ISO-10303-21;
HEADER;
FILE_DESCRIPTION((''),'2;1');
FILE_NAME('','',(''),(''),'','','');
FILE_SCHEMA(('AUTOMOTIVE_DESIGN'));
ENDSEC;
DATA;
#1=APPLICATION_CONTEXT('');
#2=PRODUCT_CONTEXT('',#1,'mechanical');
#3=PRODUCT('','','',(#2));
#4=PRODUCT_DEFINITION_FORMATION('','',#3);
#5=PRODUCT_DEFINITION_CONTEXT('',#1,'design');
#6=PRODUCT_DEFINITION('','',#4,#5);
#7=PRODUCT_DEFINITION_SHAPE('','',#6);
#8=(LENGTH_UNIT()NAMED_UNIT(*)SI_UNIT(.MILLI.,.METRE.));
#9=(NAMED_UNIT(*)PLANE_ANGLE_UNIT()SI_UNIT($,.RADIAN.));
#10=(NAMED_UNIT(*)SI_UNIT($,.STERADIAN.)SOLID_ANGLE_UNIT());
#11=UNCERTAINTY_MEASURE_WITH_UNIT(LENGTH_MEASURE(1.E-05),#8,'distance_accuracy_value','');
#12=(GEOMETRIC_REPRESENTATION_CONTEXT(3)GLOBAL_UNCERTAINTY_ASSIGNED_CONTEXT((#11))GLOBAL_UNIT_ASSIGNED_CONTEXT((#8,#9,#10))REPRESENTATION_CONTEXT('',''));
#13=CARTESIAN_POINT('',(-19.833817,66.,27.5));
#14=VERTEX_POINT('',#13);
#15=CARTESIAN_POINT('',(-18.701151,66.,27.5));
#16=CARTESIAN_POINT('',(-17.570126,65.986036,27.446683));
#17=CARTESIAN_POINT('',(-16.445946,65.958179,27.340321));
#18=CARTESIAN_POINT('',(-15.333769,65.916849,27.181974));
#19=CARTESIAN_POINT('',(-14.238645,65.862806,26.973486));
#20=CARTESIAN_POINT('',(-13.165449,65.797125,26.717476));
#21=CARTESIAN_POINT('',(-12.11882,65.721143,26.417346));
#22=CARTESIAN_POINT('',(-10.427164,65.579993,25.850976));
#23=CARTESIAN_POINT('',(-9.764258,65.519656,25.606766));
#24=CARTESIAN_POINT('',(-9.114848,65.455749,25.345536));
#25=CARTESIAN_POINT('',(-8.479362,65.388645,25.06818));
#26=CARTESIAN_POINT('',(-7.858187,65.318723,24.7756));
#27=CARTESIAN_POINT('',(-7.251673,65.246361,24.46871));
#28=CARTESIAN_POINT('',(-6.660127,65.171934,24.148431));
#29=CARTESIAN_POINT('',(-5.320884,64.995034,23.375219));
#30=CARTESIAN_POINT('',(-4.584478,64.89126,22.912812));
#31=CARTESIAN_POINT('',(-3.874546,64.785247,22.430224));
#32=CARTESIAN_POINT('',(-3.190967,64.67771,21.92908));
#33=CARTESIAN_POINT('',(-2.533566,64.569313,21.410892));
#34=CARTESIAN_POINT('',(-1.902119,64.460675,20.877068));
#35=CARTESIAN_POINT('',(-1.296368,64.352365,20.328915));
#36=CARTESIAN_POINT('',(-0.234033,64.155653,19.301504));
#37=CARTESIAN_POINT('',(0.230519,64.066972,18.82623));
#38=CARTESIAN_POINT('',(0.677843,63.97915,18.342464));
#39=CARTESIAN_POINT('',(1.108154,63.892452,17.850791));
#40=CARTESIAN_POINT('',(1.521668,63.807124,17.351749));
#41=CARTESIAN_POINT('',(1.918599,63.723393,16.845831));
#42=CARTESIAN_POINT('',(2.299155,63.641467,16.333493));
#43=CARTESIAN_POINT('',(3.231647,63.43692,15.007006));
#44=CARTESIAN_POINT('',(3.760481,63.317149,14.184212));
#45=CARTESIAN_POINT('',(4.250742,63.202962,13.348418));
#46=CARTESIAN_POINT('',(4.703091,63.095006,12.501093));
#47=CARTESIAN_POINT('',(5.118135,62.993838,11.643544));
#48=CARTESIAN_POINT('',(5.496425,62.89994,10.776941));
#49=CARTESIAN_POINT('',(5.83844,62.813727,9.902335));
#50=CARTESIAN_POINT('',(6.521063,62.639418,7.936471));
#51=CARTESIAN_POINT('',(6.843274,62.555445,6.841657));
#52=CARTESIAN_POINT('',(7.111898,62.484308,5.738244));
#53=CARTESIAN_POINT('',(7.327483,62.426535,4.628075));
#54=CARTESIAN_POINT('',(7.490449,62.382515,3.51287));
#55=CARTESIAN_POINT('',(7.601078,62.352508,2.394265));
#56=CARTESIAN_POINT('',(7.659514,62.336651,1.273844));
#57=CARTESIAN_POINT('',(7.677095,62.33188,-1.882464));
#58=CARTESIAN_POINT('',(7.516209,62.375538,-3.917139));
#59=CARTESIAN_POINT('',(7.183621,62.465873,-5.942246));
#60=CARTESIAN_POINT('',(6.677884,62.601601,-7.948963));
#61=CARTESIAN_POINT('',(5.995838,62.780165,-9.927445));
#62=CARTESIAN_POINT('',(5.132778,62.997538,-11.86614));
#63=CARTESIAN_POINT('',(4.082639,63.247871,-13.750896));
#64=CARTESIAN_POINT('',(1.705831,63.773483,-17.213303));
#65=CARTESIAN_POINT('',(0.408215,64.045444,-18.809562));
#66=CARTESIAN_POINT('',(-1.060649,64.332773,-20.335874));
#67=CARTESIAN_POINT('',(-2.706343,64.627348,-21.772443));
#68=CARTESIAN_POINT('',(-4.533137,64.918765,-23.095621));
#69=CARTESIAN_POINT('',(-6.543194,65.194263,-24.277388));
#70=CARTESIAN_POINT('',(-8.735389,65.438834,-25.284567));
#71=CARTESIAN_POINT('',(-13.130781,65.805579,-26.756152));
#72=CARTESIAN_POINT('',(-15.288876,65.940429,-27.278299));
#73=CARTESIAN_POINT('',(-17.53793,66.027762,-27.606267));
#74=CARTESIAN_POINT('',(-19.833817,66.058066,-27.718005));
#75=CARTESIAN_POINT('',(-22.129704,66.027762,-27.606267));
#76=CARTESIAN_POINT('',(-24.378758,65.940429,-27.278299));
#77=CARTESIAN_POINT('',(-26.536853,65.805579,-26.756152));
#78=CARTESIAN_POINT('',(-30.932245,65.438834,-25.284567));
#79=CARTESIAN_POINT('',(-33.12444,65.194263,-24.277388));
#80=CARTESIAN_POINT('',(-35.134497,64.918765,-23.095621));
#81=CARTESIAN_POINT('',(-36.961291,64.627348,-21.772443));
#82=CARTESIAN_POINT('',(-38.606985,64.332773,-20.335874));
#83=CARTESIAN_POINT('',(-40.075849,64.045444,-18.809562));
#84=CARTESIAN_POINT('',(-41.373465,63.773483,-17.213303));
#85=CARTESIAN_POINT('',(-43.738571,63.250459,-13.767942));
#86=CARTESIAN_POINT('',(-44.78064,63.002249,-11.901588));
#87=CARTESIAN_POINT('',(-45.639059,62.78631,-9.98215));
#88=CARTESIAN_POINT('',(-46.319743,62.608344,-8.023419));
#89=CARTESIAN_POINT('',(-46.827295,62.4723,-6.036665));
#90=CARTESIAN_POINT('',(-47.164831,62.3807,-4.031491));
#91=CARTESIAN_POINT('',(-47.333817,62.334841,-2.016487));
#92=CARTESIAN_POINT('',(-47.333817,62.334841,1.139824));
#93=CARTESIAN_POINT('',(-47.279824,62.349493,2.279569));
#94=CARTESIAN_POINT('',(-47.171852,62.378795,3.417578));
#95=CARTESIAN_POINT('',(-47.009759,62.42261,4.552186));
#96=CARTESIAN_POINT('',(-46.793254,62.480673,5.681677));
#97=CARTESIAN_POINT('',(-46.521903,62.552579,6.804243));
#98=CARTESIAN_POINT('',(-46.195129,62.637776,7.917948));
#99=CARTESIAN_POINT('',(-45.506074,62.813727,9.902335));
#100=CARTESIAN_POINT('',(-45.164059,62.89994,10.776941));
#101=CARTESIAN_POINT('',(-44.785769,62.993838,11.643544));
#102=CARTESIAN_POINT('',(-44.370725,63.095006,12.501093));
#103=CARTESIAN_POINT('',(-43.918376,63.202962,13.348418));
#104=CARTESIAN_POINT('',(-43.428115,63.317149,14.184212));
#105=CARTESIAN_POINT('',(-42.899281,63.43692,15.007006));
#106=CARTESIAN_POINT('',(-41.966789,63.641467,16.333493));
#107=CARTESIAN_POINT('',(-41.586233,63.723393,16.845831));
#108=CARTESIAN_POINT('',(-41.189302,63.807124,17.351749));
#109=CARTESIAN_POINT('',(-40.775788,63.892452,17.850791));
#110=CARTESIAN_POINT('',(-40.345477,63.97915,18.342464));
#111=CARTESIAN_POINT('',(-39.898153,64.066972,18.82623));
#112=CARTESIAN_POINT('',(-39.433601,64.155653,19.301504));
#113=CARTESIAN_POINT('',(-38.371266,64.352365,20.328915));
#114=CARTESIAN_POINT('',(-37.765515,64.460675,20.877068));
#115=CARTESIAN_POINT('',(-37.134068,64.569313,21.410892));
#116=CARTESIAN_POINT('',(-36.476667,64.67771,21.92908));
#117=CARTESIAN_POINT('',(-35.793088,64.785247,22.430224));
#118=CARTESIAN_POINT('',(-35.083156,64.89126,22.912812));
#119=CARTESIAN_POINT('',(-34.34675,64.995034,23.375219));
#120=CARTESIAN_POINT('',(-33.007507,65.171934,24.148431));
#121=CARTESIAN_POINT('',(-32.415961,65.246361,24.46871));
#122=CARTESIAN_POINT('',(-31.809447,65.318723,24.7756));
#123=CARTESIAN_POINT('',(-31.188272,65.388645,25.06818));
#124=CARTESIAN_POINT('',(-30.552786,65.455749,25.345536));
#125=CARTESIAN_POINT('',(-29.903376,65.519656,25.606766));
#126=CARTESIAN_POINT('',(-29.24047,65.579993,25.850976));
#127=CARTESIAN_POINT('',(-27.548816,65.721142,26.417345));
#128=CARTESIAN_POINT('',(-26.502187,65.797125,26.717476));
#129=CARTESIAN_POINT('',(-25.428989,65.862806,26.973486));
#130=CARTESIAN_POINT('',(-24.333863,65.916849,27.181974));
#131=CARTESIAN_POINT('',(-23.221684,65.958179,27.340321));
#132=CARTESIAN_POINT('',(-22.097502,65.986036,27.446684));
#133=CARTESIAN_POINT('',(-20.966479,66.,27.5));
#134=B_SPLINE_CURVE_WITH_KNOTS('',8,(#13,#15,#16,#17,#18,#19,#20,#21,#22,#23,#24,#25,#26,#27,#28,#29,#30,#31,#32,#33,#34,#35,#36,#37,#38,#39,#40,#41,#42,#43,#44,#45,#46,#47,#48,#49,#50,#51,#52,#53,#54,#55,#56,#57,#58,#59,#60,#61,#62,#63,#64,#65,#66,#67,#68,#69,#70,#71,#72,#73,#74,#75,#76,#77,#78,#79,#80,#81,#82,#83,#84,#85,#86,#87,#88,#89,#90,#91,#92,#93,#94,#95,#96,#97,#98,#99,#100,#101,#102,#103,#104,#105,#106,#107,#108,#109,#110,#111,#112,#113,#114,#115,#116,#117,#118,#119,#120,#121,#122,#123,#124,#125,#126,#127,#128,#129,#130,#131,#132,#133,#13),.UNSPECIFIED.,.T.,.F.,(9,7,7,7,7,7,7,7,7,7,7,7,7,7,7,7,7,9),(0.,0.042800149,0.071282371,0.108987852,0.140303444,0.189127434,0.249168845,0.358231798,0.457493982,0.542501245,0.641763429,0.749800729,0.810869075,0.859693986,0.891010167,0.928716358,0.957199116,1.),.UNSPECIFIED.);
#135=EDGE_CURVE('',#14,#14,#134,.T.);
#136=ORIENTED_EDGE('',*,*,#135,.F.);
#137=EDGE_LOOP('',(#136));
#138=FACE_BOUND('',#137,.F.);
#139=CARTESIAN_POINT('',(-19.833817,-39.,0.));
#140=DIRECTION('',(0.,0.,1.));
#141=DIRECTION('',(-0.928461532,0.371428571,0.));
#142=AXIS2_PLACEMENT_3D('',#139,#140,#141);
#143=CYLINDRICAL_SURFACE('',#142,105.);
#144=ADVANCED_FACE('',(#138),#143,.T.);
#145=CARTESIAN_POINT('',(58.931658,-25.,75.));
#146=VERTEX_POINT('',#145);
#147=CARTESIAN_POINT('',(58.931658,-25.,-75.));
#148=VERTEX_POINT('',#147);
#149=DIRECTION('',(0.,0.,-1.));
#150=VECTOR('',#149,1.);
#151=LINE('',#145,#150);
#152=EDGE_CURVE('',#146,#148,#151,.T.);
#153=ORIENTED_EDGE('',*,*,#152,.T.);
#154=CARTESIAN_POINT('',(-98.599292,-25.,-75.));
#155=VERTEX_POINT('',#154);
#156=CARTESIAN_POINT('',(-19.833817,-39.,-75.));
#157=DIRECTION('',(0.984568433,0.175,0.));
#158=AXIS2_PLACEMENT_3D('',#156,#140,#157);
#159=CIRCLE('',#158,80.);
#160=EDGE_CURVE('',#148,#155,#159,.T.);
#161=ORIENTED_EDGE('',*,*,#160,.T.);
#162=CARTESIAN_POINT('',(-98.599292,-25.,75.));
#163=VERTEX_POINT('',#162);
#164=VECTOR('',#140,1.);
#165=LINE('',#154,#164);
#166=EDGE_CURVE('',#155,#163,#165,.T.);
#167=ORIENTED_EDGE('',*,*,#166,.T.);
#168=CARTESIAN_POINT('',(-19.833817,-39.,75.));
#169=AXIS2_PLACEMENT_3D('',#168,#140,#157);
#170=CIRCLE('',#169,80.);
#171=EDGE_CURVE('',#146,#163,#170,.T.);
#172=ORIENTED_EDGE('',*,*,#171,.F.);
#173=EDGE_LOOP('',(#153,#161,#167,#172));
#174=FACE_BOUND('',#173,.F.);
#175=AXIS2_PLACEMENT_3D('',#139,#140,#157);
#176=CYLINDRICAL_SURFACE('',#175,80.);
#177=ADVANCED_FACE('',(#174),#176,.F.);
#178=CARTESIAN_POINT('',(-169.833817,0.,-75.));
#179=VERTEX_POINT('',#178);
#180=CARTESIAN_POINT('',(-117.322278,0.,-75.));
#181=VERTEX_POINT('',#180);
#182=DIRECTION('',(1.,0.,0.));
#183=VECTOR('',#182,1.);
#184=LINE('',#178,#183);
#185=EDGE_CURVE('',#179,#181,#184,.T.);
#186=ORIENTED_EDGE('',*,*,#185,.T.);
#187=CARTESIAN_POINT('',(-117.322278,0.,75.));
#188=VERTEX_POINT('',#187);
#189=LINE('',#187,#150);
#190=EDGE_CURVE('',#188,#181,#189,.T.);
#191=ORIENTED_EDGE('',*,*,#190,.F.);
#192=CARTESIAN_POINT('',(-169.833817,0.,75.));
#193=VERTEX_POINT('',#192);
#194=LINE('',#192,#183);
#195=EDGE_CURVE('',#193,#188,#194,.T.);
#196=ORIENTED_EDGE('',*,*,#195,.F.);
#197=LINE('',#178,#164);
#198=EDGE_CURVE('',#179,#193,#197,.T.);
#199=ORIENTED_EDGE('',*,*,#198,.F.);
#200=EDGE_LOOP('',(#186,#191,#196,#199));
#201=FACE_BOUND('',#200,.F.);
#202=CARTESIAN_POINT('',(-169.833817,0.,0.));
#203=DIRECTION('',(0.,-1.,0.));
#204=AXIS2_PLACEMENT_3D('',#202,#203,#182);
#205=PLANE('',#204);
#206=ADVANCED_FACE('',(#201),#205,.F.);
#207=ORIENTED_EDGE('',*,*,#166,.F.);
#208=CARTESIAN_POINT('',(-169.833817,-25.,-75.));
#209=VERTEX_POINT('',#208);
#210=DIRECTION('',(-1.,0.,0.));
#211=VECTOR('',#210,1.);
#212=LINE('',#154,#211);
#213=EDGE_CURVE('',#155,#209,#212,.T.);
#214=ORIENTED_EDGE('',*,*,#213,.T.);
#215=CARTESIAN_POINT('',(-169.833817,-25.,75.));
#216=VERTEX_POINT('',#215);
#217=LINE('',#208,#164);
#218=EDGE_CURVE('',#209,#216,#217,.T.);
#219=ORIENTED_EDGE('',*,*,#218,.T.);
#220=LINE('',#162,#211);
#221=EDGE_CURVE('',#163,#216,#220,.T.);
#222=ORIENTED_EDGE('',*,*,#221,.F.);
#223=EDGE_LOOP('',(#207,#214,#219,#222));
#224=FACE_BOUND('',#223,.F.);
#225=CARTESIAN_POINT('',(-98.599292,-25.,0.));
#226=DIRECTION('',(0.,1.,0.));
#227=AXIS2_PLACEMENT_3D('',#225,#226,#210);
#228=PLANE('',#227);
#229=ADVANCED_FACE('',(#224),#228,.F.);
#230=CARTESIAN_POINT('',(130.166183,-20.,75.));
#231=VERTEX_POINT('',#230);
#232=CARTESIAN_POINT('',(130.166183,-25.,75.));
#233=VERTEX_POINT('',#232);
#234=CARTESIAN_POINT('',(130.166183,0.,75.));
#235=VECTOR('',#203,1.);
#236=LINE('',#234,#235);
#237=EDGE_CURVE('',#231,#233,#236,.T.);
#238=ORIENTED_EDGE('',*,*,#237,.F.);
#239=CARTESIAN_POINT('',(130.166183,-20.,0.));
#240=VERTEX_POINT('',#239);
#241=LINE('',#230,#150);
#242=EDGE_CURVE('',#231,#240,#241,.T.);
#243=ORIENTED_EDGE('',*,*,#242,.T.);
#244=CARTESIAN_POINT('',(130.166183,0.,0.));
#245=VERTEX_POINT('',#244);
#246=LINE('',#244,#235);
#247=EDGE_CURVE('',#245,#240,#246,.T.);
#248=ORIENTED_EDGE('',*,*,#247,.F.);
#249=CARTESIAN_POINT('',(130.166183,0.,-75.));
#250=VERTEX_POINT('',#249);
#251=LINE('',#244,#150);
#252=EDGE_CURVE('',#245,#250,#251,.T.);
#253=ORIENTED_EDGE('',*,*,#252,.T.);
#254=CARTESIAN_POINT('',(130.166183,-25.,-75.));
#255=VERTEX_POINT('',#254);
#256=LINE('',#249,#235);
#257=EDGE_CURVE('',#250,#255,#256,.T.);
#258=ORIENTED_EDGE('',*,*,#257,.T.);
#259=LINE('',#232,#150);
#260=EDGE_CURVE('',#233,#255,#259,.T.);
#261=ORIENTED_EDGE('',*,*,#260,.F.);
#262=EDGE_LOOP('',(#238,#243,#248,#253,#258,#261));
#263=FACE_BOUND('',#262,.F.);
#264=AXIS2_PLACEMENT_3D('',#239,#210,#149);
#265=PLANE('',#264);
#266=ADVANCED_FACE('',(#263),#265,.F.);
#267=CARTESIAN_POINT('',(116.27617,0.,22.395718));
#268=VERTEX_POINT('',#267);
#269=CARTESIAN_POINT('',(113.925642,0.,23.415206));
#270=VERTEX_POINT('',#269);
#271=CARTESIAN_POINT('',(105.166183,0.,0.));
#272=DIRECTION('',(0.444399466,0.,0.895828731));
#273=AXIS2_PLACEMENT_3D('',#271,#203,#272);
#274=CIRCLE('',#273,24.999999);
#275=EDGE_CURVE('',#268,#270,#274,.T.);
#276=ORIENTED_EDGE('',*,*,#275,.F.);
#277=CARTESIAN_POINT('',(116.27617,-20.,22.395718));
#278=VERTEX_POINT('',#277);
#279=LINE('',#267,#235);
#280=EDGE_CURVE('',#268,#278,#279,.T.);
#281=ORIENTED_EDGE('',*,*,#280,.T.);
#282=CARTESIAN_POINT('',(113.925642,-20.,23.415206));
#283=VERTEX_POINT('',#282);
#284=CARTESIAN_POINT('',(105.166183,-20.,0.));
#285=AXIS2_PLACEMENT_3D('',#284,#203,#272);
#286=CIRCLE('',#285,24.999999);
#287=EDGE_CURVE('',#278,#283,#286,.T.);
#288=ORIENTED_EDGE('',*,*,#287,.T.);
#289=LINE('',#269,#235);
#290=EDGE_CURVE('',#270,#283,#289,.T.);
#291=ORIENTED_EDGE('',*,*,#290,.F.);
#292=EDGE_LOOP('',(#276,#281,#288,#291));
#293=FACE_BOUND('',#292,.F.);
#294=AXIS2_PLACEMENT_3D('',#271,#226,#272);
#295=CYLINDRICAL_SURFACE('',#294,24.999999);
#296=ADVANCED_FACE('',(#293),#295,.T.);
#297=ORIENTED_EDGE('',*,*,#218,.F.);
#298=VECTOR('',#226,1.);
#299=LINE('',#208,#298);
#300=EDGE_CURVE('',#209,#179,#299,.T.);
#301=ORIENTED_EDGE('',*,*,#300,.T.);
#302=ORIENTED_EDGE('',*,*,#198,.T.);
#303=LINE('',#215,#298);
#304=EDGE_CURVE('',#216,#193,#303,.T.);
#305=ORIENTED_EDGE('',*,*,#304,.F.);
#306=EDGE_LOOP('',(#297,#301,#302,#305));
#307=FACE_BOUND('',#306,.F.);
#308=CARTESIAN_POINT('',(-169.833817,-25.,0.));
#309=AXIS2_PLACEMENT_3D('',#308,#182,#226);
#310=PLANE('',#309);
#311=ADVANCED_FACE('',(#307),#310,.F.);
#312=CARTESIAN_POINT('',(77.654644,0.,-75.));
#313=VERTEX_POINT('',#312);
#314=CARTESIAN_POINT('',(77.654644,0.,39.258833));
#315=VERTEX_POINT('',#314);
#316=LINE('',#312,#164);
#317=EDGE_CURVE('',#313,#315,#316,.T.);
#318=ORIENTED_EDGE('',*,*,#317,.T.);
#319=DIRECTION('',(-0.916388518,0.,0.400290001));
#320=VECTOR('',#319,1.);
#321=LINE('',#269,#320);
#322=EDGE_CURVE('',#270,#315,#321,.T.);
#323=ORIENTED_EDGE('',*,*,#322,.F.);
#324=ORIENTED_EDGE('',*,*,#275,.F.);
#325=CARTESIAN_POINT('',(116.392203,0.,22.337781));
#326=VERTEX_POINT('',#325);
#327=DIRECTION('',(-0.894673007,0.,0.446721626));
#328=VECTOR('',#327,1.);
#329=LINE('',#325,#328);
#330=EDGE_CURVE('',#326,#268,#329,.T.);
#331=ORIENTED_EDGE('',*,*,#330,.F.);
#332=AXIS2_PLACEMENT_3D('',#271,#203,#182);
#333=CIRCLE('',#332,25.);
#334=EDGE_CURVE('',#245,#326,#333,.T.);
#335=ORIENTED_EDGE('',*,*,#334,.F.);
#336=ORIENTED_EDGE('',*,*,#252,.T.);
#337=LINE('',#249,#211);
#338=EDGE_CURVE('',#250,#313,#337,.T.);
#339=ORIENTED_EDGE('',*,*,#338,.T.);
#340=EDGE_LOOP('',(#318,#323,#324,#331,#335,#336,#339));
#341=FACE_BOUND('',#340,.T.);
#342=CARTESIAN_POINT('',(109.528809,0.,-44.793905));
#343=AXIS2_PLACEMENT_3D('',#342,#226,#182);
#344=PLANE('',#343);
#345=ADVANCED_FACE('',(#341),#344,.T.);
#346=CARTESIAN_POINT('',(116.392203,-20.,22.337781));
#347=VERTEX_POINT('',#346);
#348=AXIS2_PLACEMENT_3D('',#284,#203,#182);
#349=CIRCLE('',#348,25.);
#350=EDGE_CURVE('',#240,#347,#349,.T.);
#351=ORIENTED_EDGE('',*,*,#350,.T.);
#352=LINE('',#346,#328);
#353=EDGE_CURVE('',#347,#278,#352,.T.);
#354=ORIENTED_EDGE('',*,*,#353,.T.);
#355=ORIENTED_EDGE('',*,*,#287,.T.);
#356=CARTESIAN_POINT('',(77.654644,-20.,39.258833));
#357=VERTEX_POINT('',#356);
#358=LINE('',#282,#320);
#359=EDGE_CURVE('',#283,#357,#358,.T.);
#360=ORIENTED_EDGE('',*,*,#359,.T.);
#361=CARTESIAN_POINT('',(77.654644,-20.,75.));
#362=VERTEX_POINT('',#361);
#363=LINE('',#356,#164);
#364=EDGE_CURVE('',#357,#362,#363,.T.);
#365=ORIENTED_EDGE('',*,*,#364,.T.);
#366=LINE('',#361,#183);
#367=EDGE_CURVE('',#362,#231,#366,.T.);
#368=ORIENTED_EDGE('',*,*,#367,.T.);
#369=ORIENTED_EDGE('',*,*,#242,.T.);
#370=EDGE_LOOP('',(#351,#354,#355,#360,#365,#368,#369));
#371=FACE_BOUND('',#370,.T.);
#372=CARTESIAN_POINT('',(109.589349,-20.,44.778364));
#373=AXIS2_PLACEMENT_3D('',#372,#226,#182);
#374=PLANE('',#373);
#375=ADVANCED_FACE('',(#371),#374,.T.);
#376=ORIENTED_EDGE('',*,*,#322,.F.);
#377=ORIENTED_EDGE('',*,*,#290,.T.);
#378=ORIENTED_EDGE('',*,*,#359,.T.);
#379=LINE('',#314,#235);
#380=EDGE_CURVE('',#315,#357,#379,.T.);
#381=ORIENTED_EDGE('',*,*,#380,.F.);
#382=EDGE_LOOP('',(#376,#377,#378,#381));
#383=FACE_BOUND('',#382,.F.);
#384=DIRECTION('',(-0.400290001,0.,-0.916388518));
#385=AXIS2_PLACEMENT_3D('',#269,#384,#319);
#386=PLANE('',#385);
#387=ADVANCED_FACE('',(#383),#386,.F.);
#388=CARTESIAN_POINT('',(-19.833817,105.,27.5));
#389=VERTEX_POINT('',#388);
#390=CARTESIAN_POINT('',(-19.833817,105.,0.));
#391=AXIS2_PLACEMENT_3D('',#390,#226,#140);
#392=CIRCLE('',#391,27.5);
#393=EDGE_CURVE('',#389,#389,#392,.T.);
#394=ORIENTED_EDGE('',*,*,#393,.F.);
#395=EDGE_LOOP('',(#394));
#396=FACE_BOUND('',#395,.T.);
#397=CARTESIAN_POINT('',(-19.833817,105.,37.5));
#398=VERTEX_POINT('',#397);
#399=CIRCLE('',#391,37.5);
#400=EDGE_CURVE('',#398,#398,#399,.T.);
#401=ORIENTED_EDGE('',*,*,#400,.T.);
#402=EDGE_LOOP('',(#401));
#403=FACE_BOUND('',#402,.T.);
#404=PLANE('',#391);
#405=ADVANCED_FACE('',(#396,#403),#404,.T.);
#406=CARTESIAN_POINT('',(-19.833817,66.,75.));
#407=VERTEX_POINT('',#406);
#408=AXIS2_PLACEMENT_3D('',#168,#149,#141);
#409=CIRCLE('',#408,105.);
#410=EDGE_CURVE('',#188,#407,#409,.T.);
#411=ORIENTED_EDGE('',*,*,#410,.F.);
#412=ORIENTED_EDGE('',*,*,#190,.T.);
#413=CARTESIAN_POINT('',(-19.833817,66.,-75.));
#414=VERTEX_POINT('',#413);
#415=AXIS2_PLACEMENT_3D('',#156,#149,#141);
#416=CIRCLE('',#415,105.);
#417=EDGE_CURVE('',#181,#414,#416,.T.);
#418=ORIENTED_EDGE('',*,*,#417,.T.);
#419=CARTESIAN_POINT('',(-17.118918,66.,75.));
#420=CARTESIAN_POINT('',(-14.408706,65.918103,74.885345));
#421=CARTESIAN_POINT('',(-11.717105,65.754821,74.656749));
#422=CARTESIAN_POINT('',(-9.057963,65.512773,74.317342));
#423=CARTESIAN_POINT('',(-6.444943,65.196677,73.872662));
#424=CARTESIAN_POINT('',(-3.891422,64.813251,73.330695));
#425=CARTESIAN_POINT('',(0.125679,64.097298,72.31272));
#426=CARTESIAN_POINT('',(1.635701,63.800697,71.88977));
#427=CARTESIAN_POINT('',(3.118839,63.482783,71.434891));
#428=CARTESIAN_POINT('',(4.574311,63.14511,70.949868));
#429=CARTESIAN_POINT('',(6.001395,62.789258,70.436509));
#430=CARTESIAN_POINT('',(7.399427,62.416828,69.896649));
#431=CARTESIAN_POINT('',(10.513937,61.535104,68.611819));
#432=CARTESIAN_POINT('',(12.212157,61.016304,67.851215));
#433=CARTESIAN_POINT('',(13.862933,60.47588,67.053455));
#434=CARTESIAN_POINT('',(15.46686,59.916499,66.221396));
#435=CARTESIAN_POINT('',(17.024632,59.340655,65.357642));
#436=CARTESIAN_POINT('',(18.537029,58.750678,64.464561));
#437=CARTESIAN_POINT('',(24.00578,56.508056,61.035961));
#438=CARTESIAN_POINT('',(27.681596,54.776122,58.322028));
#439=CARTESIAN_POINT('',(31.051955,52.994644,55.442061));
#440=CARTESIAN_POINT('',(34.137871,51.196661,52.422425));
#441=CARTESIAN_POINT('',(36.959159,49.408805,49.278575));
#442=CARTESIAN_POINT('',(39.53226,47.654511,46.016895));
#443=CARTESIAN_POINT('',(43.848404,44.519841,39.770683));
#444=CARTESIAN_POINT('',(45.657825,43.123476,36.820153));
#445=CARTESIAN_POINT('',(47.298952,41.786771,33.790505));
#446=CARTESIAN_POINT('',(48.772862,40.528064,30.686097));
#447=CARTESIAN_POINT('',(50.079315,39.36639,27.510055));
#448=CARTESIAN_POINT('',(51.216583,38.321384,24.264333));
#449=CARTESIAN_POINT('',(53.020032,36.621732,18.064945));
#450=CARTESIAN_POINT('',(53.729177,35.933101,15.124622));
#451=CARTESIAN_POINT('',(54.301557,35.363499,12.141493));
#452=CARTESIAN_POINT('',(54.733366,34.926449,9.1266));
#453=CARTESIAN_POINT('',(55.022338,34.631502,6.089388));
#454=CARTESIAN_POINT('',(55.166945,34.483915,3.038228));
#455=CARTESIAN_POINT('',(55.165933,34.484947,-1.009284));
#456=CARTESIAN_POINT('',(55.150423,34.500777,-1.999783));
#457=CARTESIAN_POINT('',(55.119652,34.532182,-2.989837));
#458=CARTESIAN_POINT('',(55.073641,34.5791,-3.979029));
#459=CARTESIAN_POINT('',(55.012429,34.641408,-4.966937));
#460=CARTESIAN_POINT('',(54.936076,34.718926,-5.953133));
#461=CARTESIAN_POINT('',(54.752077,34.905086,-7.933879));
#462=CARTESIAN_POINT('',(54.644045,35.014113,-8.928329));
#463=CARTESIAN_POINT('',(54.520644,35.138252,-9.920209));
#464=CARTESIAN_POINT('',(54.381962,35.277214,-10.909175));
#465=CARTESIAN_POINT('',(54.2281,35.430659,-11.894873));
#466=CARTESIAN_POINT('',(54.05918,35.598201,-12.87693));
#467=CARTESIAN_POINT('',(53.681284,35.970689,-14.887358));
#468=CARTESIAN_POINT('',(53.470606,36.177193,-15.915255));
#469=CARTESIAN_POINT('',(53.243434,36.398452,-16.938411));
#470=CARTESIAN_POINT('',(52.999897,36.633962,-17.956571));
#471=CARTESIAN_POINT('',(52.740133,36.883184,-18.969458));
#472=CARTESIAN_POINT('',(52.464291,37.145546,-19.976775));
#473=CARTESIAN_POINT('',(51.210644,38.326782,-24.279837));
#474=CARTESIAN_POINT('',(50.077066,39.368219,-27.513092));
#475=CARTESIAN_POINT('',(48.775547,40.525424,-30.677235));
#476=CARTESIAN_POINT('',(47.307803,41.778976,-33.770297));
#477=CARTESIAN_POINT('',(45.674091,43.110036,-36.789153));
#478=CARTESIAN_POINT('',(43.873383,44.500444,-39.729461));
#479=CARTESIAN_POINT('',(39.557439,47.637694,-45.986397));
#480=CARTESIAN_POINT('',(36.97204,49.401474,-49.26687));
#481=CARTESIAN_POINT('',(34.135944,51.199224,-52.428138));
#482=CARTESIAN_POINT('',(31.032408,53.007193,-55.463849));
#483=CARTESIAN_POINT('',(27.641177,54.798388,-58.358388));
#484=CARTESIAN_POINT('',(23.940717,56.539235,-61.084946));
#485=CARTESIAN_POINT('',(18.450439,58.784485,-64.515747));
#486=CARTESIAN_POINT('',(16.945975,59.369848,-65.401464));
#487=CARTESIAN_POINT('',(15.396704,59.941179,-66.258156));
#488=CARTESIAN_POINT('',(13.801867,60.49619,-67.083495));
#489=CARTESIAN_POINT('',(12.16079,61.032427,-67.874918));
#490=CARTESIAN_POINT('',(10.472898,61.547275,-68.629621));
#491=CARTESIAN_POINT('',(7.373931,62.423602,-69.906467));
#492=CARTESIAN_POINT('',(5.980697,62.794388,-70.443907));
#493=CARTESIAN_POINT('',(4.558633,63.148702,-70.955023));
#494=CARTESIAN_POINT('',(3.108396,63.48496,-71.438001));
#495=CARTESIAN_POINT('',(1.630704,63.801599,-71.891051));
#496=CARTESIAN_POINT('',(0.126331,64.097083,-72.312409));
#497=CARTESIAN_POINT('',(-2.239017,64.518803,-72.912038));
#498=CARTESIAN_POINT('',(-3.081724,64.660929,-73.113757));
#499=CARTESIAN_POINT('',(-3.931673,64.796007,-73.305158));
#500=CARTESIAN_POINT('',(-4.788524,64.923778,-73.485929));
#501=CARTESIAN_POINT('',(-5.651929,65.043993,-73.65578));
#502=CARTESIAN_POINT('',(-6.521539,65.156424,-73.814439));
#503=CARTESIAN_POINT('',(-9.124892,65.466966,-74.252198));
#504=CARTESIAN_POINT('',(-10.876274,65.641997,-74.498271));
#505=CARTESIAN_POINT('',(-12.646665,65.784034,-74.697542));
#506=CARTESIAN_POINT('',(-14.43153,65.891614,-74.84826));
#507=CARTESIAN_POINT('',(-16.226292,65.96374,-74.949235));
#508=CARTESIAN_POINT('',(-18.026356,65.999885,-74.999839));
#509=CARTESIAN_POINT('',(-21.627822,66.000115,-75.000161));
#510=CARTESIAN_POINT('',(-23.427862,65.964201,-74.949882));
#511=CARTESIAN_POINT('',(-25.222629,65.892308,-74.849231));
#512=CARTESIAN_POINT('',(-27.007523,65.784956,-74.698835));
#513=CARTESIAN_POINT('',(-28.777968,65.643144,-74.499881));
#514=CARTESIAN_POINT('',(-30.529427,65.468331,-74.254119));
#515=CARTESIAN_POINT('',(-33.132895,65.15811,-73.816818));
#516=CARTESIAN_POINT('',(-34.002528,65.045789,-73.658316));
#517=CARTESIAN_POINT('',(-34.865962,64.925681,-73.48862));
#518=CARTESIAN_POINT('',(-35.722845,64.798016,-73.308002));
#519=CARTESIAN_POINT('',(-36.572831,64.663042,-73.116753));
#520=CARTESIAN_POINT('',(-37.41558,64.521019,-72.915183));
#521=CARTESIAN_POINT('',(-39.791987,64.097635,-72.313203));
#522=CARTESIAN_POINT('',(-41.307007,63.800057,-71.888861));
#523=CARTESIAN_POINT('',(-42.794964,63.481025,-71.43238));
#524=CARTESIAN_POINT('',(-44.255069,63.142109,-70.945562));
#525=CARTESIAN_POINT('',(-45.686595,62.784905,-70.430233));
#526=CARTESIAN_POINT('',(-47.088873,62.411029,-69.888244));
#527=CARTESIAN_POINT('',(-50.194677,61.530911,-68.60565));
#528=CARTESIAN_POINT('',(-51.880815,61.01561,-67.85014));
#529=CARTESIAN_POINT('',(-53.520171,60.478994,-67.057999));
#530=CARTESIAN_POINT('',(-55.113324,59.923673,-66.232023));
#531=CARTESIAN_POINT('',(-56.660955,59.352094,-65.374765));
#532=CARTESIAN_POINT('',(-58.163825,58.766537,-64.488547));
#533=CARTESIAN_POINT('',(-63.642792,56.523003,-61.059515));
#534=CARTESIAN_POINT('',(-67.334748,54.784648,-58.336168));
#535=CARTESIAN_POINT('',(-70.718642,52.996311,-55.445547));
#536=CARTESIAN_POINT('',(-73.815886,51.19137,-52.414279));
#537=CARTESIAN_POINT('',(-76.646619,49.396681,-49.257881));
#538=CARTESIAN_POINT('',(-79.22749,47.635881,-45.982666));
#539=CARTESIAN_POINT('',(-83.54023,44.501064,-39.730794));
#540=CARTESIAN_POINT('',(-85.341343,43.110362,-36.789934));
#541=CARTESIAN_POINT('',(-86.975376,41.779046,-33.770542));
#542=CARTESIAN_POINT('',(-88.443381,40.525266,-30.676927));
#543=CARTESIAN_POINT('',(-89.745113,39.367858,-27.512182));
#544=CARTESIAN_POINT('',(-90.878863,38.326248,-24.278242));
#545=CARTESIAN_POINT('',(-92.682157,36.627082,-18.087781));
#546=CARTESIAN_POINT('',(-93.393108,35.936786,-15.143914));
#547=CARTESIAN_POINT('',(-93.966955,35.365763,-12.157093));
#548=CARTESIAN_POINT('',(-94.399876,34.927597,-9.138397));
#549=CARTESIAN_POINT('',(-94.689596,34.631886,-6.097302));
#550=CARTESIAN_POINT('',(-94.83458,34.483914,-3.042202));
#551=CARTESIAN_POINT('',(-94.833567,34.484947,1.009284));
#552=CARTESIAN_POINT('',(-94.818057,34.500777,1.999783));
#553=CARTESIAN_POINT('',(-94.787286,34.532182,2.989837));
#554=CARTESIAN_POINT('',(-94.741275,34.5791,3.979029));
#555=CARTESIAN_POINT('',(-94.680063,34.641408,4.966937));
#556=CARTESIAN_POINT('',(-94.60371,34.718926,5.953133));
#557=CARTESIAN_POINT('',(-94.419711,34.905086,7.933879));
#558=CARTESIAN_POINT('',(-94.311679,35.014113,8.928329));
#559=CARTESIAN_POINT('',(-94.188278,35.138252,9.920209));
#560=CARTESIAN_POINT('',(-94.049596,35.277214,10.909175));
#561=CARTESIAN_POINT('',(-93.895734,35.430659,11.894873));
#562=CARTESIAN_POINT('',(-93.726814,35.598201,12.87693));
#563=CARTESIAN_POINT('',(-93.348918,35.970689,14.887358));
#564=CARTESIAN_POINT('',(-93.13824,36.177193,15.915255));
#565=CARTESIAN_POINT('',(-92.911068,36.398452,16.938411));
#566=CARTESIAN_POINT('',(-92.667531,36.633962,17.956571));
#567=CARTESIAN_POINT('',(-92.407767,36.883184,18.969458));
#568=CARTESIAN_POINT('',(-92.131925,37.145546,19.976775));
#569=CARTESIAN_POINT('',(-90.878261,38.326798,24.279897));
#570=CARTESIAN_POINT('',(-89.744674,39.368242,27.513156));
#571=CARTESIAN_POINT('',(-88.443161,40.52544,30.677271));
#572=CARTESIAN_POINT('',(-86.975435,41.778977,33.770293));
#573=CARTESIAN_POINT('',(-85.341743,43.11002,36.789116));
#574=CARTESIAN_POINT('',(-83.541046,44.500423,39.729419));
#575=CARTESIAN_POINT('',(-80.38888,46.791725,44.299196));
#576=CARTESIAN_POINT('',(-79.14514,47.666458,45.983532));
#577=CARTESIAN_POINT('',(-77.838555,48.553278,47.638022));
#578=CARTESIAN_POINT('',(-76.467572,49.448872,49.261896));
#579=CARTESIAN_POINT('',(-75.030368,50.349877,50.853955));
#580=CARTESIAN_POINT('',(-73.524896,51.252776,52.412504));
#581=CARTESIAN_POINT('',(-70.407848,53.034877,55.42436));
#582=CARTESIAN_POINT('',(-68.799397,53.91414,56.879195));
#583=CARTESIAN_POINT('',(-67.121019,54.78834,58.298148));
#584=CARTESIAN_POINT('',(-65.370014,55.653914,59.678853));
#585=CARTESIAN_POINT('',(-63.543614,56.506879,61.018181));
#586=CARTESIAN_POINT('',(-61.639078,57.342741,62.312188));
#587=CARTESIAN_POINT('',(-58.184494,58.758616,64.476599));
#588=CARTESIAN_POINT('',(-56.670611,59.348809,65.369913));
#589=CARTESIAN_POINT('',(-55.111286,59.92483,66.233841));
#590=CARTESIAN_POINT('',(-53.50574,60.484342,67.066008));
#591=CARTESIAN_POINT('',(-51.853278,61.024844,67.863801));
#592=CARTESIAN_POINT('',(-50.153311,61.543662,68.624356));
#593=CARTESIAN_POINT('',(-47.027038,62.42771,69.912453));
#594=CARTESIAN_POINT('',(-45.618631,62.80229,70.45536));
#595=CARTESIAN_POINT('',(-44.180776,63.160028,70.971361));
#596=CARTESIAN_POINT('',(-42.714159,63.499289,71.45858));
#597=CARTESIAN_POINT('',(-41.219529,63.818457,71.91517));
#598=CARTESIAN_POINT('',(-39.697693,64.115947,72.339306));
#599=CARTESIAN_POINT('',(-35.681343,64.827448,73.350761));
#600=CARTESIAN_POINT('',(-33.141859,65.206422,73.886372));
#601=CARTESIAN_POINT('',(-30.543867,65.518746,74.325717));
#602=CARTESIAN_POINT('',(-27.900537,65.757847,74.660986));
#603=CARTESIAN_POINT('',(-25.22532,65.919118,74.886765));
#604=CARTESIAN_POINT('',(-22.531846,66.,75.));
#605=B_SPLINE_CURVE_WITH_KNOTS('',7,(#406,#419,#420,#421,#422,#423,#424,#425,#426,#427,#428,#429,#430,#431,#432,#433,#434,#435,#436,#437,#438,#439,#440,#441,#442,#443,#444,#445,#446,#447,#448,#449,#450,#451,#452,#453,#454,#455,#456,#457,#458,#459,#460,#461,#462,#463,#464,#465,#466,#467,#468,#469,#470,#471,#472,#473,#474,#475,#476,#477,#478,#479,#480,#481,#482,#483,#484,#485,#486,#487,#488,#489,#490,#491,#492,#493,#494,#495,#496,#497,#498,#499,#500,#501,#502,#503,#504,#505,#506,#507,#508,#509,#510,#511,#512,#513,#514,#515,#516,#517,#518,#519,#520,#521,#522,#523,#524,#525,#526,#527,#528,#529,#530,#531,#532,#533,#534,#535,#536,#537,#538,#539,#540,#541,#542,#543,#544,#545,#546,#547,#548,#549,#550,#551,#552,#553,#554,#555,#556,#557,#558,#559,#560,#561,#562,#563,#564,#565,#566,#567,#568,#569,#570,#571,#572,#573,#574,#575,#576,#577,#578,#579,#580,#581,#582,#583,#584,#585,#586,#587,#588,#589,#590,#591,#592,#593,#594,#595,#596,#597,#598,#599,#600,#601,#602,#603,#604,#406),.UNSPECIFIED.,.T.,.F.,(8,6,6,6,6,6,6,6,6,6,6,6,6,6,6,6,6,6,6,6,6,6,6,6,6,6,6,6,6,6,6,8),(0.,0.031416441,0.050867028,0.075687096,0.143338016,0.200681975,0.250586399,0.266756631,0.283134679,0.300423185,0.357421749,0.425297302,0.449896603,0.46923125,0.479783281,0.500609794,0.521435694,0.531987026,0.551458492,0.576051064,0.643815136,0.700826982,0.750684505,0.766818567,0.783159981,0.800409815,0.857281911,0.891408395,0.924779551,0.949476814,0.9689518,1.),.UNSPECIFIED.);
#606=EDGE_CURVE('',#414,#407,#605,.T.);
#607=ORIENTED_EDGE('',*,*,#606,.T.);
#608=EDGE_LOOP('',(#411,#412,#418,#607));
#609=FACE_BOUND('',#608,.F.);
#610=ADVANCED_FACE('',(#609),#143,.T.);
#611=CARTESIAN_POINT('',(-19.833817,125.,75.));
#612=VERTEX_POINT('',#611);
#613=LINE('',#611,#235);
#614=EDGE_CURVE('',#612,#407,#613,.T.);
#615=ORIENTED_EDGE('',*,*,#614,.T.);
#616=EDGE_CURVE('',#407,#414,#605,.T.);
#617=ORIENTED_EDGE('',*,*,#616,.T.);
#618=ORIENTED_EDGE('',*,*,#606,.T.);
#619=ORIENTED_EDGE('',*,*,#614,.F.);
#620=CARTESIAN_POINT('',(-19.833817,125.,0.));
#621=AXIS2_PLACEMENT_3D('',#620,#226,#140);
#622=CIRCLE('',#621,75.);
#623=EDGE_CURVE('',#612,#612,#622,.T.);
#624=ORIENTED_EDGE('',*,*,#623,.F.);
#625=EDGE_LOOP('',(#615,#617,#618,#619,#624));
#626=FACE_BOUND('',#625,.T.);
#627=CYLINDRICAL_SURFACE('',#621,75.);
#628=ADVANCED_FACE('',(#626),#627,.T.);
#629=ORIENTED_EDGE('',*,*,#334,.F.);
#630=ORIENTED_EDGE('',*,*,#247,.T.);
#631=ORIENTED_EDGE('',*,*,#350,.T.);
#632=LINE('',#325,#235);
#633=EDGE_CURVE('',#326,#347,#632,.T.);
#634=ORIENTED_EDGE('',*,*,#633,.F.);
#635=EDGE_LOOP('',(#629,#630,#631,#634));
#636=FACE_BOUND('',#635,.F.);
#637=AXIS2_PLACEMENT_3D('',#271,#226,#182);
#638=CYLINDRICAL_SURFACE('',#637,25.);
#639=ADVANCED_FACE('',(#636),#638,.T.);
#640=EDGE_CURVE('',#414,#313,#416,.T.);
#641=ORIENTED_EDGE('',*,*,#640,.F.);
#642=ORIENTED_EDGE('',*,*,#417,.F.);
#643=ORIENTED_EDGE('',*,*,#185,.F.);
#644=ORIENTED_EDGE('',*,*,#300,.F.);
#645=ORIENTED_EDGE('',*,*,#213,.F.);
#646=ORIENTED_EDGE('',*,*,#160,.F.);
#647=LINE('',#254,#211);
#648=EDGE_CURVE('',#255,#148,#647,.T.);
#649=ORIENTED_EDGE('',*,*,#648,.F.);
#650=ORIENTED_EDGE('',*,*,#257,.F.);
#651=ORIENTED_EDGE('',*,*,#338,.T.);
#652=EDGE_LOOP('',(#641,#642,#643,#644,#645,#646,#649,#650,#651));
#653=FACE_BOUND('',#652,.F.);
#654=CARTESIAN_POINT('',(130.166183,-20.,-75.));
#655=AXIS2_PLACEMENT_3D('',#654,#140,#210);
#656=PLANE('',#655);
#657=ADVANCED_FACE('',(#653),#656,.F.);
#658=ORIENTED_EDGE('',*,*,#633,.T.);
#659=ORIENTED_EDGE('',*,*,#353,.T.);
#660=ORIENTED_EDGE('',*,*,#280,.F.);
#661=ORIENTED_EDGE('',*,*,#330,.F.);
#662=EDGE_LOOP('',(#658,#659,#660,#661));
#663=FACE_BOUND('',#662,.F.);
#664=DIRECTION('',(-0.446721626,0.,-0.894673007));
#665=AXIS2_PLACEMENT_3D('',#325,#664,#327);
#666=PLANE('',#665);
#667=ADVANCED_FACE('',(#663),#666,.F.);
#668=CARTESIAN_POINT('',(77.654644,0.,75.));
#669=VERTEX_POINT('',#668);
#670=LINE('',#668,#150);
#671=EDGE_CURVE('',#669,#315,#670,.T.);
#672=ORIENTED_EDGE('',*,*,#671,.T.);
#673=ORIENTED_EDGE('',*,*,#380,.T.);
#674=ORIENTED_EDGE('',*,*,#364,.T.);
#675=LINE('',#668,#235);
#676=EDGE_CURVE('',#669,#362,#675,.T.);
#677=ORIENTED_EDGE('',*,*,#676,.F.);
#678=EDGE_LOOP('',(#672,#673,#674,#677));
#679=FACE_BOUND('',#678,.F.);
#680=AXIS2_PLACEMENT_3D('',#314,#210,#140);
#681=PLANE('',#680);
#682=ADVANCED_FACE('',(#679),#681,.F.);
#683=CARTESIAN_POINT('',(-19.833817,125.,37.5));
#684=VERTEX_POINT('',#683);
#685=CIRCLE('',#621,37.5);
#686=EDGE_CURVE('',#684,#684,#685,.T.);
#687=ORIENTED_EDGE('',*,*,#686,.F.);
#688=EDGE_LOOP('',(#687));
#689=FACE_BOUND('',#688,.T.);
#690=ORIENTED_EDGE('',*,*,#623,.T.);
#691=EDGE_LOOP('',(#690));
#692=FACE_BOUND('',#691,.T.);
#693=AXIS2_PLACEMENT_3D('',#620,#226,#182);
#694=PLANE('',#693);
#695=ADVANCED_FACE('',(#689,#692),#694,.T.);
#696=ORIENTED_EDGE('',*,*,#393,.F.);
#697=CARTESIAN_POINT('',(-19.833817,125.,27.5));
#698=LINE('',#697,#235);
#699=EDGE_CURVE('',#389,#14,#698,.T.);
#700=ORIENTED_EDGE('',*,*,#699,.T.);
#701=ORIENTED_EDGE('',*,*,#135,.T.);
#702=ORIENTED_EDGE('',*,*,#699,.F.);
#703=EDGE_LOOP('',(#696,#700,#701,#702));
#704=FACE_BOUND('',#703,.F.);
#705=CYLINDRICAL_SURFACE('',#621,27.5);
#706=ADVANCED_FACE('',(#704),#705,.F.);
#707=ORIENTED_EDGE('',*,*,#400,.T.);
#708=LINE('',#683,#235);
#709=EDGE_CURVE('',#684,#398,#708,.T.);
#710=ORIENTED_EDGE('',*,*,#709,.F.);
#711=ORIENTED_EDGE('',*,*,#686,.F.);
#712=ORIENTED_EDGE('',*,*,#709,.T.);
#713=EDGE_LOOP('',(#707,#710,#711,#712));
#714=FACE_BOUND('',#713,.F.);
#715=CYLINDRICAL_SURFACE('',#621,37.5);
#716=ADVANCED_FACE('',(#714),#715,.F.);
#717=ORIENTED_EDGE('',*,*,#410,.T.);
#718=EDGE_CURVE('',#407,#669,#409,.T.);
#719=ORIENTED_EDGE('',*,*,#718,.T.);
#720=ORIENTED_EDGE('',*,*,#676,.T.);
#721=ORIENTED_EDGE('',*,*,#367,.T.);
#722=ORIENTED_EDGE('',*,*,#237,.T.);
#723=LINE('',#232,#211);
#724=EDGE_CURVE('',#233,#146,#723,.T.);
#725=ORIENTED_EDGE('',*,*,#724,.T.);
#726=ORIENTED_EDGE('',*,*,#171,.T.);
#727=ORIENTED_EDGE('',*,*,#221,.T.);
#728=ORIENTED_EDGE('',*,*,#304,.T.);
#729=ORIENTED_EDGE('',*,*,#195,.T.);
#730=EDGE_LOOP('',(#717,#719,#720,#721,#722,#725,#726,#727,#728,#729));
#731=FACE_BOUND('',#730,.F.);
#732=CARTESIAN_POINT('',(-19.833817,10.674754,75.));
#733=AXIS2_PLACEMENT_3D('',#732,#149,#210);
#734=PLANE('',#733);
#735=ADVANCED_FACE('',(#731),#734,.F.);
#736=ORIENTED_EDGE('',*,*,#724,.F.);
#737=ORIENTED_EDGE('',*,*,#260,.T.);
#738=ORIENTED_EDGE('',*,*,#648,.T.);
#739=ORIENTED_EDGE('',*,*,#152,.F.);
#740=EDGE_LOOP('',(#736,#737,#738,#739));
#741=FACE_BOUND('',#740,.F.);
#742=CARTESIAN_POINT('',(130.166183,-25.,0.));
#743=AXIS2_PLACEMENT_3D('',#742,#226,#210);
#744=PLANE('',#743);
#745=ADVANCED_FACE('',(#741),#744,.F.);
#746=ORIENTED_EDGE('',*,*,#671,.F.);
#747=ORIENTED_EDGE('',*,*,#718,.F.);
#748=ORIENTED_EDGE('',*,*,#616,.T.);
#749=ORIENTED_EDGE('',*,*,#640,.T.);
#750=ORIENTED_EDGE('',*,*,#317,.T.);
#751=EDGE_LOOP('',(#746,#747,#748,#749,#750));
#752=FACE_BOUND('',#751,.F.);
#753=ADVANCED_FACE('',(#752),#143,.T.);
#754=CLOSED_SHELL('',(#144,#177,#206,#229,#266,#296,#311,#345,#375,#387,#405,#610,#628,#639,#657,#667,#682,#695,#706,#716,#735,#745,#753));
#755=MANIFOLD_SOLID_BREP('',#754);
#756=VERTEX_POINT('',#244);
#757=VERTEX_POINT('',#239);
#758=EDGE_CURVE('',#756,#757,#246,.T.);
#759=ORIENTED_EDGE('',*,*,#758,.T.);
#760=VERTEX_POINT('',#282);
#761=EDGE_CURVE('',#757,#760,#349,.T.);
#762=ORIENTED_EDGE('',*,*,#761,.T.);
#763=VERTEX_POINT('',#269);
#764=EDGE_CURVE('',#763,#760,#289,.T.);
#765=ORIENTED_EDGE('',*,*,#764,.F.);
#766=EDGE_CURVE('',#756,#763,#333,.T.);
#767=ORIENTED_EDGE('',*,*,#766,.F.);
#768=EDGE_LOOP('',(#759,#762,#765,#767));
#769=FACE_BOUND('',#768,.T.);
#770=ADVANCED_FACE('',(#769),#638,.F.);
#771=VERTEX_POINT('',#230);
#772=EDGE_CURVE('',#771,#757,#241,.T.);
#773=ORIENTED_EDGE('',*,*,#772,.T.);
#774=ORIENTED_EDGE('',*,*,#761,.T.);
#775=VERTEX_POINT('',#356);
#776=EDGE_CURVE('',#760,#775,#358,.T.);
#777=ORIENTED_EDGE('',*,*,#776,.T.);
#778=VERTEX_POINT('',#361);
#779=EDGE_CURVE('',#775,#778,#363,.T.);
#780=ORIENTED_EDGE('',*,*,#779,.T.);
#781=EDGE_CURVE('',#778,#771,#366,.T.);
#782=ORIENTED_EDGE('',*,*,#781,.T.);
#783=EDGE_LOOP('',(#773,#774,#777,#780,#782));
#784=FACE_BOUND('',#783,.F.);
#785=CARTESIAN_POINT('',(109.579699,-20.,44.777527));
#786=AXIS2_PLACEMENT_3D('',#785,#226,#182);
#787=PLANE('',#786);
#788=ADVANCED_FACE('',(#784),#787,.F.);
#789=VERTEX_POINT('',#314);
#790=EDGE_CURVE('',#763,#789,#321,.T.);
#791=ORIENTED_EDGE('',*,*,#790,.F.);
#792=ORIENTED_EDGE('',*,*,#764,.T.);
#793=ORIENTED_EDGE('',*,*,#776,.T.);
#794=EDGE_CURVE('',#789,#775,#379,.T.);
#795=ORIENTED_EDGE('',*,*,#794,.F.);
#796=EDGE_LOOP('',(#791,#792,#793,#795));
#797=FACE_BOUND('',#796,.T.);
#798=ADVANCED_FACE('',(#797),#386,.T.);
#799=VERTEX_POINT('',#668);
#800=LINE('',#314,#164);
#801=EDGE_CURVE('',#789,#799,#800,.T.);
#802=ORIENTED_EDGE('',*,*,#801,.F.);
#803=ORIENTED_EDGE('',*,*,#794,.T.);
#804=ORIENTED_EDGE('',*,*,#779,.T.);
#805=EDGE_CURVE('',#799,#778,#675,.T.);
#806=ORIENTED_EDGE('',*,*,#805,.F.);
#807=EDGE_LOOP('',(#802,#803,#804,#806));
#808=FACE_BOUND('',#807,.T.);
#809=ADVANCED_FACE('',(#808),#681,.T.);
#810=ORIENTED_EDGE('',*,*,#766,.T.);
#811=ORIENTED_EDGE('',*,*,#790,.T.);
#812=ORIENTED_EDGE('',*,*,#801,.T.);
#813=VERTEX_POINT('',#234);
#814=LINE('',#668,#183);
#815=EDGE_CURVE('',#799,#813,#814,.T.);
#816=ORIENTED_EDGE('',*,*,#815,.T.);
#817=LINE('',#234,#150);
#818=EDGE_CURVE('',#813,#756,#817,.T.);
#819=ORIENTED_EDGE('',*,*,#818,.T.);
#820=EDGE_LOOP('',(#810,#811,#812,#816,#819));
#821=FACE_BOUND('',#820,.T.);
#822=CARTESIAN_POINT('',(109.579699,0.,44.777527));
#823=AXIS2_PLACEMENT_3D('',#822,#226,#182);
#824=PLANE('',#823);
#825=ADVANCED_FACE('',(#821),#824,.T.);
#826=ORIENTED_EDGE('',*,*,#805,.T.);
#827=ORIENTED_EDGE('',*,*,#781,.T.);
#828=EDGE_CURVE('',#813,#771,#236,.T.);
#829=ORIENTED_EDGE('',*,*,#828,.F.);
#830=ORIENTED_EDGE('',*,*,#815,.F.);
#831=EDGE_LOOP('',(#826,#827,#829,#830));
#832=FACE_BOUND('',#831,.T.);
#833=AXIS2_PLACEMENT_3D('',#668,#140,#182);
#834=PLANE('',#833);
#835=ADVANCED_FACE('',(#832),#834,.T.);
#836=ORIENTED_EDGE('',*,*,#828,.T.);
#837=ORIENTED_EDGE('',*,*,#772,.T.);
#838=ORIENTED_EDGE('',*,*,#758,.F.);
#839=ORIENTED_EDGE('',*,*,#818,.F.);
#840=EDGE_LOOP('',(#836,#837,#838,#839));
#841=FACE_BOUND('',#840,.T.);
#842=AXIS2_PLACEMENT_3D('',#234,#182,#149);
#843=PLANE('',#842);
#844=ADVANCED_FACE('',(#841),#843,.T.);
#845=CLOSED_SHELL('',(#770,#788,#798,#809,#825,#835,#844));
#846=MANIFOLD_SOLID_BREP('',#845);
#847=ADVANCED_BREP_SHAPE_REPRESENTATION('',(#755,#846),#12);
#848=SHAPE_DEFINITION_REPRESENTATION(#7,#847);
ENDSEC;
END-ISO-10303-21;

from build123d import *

# Parameters (mm, degrees)
BOSS_EXTRUDE2_DEPTH      = 75
BOSS_EXTRUDE5_REACH      = 240.681
BOSS_EXTRUDE5_END_RADIUS = 105
SKETCH2_R                = 75
SKETCH2_R_2              = 37.5
BOSS_EXTRUDE6_REACH      = 240.681
BOSS_EXTRUDE6_END_RADIUS = 105
SKETCH2_10_R             = 37.5
SKETCH2_10_R_2           = 27.5
SKETCH2_11_R             = 37.5
SKETCH2_11_R_2           = 27.5
CUT_EXTRUDE1_DEPTH       = 20
CUT_EXTRUDE5_DEPTH       = 20
BOSS_EXTRUDE7_DEPTH      = 20
BOSS_EXTRUDE8_DEPTH      = 20


with BuildPart() as part:
    # Sketch1 → Boss-Extrude2 (new, symmetric)
    with BuildSketch(Plane.XY):
        with BuildLine():
            Line((-169.833817009, 0), (-117.322277864, 0))
            ThreePointArc((-117.322277864, 0), (-19.833817009, 66), (77.654643847, 0))
            Line((77.654643847, 0), (130.166182991, 0))
            Line((130.166182991, 0), (130.166182991, -25))
            Line((130.166182991, -25), (58.931657662, -25))
            ThreePointArc((58.931657662, -25), (-19.833817009, 41), (-98.599291679, -25))
            Line((-98.599291679, -25), (-169.833817009, -25))
            Line((-169.833817009, -25), (-169.833817009, 0))
        make_face()
    extrude(amount=BOSS_EXTRUDE2_DEPTH, both=True)

    # Boss-Extrude5: up to this cylinder (the profile starts outside it)
    boss_extrude5_end = Plane(origin=(-19.833817009, -39, -72.87868), z_dir=(0, 0, -1)) * Cylinder(BOSS_EXTRUDE5_END_RADIUS, 692.362, mode=Mode.PRIVATE)
    # Sketch2 → Boss-Extrude5 (add, up to the surface)
    with BuildSketch(Plane(origin=(0, 125, 0), x_dir=(1, 0, 0), z_dir=(0, 1, 0)), mode=Mode.PRIVATE) as boss_extrude5_sk1:
        with Locations(Location((-19.833817009, 0, 0), (0, 0, 270))):
            Circle(SKETCH2_R)
        with Locations(Location((-19.833817009, 0, 0), (0, 0, 270))):
            Circle(SKETCH2_R_2, mode=Mode.SUBTRACT)
    boss_extrude5_tool1 = extrude(boss_extrude5_sk1.sketch, amount=-BOSS_EXTRUDE5_REACH, mode=Mode.PRIVATE) - boss_extrude5_end
    add(boss_extrude5_tool1.solids().sort_by_distance((-19.833817, 125, -72.87868))[0])

    # Boss-Extrude6: up to this cylinder (the profile starts outside it)
    boss_extrude6_end = Plane(origin=(-19.833817009, -39, 0), z_dir=(0, 0, -1)) * Cylinder(BOSS_EXTRUDE6_END_RADIUS, 692.362, mode=Mode.PRIVATE)
    # Sketch2<10> → Boss-Extrude6 (add, up to the surface)
    with BuildSketch(Plane(origin=(0, 125, 0), x_dir=(1, 0, 0), z_dir=(0, 1, 0)), mode=Mode.PRIVATE) as boss_extrude6_sk1:
        with Locations((-19.833817009, 0)):
            Circle(SKETCH2_10_R)
        with Locations(Location((-19.833817009, 0, 0), (0, 0, 270))):
            Circle(SKETCH2_10_R_2, mode=Mode.SUBTRACT)
    boss_extrude6_tool1 = extrude(boss_extrude6_sk1.sketch, amount=-BOSS_EXTRUDE6_REACH, mode=Mode.PRIVATE) - boss_extrude6_end
    add(boss_extrude6_tool1.solids().sort_by_distance((-56.273157, 125, 0))[0])

    # Sketch2<11> → Cut-Extrude1 (cut)
    with BuildSketch(Plane(origin=(0, 125, 0), x_dir=(1, 0, 0), z_dir=(0, 1, 0))):
        with Locations(Location((-19.833817009, 0, 0), (0, 0, 270))):
            Circle(SKETCH2_11_R)
        with Locations(Location((-19.833817009, 0, 0), (0, 0, 270))):
            Circle(SKETCH2_11_R_2, mode=Mode.SUBTRACT)
    extrude(amount=-CUT_EXTRUDE1_DEPTH, mode=Mode.SUBTRACT)

    # Sketch3 → Cut-Extrude5 (cut)
    with BuildSketch(Plane(origin=(0, 0, 0), x_dir=(1, 0, 0), z_dir=(0, 1, 0))):
        with BuildLine():
            Line((77.654643847, -75), (130.166182991, -75))
            Line((130.166182991, -75), (130.166182991, 0))
            ThreePointArc((130.166182991, 0), (126.445873921, -13.121537789), (116.392202675, -22.337781494))
            Line((116.392202675, -22.337781494), (116.276169616, -22.395718278))
            ThreePointArc((116.276169616, -22.395718278), (115.113974639, -22.935593329), (113.925642242, -23.415206034))
            Line((113.925642242, -23.415206034), (77.654643847, -39.258833162))
            Line((77.654643847, -39.258833162), (77.654643847, -75))
        make_face()
        with BuildLine():
            ThreePointArc((113.873176653, 23.434766083), (125.692688314, 14.271039879), (130.166182991, 0))
            Line((130.166182991, 0), (130.166182991, 75))
            Line((130.166182991, 75), (77.654643847, 75))
            Line((77.654643847, 75), (77.654643847, 39.207200347))
            Line((77.654643847, 39.207200347), (113.873176653, 23.434766083))
        make_face()
    extrude(amount=-CUT_EXTRUDE5_DEPTH, mode=Mode.SUBTRACT)

    # Sketch4 → Boss-Extrude7 (add)
    with BuildSketch(Plane(origin=(0, -20, 0), x_dir=(1, 0, 0), z_dir=(0, 1, 0))):
        with BuildLine():
            Line((77.654643847, 75), (77.654643847, 39.207200347))
            Line((77.654643847, 39.207200347), (113.873176653, 23.434766083))
            ThreePointArc((113.873176653, 23.434766083), (125.341873235, 14.027135917), (130.166182991, 0))
            Line((130.166182991, 0), (130.166182991, 75))
            Line((130.166182991, 75), (77.654643847, 75))
        make_face()
    extrude(amount=BOSS_EXTRUDE7_DEPTH)


with BuildPart() as body_2:
    # Sketch5 → Boss-Extrude8 (new body)
    with BuildSketch(Plane(origin=(0, 0, 0), x_dir=(1, 0, 0), z_dir=(0, 1, 0))):
        with BuildLine():
            Line((77.654643847, -39.258833162), (77.654643847, -75))
            Line((77.654643847, -75), (130.166182991, -75))
            Line((130.166182991, -75), (130.166182991, 0))
            ThreePointArc((130.166182991, 0), (125.708657055, -14.248044054), (113.925642242, -23.415206034))
            Line((113.925642242, -23.415206034), (77.654643847, -39.258833162))
        make_face()
    extrude(amount=-BOSS_EXTRUDE8_DEPTH)


solid = Compound([part.part, body_2.part])
